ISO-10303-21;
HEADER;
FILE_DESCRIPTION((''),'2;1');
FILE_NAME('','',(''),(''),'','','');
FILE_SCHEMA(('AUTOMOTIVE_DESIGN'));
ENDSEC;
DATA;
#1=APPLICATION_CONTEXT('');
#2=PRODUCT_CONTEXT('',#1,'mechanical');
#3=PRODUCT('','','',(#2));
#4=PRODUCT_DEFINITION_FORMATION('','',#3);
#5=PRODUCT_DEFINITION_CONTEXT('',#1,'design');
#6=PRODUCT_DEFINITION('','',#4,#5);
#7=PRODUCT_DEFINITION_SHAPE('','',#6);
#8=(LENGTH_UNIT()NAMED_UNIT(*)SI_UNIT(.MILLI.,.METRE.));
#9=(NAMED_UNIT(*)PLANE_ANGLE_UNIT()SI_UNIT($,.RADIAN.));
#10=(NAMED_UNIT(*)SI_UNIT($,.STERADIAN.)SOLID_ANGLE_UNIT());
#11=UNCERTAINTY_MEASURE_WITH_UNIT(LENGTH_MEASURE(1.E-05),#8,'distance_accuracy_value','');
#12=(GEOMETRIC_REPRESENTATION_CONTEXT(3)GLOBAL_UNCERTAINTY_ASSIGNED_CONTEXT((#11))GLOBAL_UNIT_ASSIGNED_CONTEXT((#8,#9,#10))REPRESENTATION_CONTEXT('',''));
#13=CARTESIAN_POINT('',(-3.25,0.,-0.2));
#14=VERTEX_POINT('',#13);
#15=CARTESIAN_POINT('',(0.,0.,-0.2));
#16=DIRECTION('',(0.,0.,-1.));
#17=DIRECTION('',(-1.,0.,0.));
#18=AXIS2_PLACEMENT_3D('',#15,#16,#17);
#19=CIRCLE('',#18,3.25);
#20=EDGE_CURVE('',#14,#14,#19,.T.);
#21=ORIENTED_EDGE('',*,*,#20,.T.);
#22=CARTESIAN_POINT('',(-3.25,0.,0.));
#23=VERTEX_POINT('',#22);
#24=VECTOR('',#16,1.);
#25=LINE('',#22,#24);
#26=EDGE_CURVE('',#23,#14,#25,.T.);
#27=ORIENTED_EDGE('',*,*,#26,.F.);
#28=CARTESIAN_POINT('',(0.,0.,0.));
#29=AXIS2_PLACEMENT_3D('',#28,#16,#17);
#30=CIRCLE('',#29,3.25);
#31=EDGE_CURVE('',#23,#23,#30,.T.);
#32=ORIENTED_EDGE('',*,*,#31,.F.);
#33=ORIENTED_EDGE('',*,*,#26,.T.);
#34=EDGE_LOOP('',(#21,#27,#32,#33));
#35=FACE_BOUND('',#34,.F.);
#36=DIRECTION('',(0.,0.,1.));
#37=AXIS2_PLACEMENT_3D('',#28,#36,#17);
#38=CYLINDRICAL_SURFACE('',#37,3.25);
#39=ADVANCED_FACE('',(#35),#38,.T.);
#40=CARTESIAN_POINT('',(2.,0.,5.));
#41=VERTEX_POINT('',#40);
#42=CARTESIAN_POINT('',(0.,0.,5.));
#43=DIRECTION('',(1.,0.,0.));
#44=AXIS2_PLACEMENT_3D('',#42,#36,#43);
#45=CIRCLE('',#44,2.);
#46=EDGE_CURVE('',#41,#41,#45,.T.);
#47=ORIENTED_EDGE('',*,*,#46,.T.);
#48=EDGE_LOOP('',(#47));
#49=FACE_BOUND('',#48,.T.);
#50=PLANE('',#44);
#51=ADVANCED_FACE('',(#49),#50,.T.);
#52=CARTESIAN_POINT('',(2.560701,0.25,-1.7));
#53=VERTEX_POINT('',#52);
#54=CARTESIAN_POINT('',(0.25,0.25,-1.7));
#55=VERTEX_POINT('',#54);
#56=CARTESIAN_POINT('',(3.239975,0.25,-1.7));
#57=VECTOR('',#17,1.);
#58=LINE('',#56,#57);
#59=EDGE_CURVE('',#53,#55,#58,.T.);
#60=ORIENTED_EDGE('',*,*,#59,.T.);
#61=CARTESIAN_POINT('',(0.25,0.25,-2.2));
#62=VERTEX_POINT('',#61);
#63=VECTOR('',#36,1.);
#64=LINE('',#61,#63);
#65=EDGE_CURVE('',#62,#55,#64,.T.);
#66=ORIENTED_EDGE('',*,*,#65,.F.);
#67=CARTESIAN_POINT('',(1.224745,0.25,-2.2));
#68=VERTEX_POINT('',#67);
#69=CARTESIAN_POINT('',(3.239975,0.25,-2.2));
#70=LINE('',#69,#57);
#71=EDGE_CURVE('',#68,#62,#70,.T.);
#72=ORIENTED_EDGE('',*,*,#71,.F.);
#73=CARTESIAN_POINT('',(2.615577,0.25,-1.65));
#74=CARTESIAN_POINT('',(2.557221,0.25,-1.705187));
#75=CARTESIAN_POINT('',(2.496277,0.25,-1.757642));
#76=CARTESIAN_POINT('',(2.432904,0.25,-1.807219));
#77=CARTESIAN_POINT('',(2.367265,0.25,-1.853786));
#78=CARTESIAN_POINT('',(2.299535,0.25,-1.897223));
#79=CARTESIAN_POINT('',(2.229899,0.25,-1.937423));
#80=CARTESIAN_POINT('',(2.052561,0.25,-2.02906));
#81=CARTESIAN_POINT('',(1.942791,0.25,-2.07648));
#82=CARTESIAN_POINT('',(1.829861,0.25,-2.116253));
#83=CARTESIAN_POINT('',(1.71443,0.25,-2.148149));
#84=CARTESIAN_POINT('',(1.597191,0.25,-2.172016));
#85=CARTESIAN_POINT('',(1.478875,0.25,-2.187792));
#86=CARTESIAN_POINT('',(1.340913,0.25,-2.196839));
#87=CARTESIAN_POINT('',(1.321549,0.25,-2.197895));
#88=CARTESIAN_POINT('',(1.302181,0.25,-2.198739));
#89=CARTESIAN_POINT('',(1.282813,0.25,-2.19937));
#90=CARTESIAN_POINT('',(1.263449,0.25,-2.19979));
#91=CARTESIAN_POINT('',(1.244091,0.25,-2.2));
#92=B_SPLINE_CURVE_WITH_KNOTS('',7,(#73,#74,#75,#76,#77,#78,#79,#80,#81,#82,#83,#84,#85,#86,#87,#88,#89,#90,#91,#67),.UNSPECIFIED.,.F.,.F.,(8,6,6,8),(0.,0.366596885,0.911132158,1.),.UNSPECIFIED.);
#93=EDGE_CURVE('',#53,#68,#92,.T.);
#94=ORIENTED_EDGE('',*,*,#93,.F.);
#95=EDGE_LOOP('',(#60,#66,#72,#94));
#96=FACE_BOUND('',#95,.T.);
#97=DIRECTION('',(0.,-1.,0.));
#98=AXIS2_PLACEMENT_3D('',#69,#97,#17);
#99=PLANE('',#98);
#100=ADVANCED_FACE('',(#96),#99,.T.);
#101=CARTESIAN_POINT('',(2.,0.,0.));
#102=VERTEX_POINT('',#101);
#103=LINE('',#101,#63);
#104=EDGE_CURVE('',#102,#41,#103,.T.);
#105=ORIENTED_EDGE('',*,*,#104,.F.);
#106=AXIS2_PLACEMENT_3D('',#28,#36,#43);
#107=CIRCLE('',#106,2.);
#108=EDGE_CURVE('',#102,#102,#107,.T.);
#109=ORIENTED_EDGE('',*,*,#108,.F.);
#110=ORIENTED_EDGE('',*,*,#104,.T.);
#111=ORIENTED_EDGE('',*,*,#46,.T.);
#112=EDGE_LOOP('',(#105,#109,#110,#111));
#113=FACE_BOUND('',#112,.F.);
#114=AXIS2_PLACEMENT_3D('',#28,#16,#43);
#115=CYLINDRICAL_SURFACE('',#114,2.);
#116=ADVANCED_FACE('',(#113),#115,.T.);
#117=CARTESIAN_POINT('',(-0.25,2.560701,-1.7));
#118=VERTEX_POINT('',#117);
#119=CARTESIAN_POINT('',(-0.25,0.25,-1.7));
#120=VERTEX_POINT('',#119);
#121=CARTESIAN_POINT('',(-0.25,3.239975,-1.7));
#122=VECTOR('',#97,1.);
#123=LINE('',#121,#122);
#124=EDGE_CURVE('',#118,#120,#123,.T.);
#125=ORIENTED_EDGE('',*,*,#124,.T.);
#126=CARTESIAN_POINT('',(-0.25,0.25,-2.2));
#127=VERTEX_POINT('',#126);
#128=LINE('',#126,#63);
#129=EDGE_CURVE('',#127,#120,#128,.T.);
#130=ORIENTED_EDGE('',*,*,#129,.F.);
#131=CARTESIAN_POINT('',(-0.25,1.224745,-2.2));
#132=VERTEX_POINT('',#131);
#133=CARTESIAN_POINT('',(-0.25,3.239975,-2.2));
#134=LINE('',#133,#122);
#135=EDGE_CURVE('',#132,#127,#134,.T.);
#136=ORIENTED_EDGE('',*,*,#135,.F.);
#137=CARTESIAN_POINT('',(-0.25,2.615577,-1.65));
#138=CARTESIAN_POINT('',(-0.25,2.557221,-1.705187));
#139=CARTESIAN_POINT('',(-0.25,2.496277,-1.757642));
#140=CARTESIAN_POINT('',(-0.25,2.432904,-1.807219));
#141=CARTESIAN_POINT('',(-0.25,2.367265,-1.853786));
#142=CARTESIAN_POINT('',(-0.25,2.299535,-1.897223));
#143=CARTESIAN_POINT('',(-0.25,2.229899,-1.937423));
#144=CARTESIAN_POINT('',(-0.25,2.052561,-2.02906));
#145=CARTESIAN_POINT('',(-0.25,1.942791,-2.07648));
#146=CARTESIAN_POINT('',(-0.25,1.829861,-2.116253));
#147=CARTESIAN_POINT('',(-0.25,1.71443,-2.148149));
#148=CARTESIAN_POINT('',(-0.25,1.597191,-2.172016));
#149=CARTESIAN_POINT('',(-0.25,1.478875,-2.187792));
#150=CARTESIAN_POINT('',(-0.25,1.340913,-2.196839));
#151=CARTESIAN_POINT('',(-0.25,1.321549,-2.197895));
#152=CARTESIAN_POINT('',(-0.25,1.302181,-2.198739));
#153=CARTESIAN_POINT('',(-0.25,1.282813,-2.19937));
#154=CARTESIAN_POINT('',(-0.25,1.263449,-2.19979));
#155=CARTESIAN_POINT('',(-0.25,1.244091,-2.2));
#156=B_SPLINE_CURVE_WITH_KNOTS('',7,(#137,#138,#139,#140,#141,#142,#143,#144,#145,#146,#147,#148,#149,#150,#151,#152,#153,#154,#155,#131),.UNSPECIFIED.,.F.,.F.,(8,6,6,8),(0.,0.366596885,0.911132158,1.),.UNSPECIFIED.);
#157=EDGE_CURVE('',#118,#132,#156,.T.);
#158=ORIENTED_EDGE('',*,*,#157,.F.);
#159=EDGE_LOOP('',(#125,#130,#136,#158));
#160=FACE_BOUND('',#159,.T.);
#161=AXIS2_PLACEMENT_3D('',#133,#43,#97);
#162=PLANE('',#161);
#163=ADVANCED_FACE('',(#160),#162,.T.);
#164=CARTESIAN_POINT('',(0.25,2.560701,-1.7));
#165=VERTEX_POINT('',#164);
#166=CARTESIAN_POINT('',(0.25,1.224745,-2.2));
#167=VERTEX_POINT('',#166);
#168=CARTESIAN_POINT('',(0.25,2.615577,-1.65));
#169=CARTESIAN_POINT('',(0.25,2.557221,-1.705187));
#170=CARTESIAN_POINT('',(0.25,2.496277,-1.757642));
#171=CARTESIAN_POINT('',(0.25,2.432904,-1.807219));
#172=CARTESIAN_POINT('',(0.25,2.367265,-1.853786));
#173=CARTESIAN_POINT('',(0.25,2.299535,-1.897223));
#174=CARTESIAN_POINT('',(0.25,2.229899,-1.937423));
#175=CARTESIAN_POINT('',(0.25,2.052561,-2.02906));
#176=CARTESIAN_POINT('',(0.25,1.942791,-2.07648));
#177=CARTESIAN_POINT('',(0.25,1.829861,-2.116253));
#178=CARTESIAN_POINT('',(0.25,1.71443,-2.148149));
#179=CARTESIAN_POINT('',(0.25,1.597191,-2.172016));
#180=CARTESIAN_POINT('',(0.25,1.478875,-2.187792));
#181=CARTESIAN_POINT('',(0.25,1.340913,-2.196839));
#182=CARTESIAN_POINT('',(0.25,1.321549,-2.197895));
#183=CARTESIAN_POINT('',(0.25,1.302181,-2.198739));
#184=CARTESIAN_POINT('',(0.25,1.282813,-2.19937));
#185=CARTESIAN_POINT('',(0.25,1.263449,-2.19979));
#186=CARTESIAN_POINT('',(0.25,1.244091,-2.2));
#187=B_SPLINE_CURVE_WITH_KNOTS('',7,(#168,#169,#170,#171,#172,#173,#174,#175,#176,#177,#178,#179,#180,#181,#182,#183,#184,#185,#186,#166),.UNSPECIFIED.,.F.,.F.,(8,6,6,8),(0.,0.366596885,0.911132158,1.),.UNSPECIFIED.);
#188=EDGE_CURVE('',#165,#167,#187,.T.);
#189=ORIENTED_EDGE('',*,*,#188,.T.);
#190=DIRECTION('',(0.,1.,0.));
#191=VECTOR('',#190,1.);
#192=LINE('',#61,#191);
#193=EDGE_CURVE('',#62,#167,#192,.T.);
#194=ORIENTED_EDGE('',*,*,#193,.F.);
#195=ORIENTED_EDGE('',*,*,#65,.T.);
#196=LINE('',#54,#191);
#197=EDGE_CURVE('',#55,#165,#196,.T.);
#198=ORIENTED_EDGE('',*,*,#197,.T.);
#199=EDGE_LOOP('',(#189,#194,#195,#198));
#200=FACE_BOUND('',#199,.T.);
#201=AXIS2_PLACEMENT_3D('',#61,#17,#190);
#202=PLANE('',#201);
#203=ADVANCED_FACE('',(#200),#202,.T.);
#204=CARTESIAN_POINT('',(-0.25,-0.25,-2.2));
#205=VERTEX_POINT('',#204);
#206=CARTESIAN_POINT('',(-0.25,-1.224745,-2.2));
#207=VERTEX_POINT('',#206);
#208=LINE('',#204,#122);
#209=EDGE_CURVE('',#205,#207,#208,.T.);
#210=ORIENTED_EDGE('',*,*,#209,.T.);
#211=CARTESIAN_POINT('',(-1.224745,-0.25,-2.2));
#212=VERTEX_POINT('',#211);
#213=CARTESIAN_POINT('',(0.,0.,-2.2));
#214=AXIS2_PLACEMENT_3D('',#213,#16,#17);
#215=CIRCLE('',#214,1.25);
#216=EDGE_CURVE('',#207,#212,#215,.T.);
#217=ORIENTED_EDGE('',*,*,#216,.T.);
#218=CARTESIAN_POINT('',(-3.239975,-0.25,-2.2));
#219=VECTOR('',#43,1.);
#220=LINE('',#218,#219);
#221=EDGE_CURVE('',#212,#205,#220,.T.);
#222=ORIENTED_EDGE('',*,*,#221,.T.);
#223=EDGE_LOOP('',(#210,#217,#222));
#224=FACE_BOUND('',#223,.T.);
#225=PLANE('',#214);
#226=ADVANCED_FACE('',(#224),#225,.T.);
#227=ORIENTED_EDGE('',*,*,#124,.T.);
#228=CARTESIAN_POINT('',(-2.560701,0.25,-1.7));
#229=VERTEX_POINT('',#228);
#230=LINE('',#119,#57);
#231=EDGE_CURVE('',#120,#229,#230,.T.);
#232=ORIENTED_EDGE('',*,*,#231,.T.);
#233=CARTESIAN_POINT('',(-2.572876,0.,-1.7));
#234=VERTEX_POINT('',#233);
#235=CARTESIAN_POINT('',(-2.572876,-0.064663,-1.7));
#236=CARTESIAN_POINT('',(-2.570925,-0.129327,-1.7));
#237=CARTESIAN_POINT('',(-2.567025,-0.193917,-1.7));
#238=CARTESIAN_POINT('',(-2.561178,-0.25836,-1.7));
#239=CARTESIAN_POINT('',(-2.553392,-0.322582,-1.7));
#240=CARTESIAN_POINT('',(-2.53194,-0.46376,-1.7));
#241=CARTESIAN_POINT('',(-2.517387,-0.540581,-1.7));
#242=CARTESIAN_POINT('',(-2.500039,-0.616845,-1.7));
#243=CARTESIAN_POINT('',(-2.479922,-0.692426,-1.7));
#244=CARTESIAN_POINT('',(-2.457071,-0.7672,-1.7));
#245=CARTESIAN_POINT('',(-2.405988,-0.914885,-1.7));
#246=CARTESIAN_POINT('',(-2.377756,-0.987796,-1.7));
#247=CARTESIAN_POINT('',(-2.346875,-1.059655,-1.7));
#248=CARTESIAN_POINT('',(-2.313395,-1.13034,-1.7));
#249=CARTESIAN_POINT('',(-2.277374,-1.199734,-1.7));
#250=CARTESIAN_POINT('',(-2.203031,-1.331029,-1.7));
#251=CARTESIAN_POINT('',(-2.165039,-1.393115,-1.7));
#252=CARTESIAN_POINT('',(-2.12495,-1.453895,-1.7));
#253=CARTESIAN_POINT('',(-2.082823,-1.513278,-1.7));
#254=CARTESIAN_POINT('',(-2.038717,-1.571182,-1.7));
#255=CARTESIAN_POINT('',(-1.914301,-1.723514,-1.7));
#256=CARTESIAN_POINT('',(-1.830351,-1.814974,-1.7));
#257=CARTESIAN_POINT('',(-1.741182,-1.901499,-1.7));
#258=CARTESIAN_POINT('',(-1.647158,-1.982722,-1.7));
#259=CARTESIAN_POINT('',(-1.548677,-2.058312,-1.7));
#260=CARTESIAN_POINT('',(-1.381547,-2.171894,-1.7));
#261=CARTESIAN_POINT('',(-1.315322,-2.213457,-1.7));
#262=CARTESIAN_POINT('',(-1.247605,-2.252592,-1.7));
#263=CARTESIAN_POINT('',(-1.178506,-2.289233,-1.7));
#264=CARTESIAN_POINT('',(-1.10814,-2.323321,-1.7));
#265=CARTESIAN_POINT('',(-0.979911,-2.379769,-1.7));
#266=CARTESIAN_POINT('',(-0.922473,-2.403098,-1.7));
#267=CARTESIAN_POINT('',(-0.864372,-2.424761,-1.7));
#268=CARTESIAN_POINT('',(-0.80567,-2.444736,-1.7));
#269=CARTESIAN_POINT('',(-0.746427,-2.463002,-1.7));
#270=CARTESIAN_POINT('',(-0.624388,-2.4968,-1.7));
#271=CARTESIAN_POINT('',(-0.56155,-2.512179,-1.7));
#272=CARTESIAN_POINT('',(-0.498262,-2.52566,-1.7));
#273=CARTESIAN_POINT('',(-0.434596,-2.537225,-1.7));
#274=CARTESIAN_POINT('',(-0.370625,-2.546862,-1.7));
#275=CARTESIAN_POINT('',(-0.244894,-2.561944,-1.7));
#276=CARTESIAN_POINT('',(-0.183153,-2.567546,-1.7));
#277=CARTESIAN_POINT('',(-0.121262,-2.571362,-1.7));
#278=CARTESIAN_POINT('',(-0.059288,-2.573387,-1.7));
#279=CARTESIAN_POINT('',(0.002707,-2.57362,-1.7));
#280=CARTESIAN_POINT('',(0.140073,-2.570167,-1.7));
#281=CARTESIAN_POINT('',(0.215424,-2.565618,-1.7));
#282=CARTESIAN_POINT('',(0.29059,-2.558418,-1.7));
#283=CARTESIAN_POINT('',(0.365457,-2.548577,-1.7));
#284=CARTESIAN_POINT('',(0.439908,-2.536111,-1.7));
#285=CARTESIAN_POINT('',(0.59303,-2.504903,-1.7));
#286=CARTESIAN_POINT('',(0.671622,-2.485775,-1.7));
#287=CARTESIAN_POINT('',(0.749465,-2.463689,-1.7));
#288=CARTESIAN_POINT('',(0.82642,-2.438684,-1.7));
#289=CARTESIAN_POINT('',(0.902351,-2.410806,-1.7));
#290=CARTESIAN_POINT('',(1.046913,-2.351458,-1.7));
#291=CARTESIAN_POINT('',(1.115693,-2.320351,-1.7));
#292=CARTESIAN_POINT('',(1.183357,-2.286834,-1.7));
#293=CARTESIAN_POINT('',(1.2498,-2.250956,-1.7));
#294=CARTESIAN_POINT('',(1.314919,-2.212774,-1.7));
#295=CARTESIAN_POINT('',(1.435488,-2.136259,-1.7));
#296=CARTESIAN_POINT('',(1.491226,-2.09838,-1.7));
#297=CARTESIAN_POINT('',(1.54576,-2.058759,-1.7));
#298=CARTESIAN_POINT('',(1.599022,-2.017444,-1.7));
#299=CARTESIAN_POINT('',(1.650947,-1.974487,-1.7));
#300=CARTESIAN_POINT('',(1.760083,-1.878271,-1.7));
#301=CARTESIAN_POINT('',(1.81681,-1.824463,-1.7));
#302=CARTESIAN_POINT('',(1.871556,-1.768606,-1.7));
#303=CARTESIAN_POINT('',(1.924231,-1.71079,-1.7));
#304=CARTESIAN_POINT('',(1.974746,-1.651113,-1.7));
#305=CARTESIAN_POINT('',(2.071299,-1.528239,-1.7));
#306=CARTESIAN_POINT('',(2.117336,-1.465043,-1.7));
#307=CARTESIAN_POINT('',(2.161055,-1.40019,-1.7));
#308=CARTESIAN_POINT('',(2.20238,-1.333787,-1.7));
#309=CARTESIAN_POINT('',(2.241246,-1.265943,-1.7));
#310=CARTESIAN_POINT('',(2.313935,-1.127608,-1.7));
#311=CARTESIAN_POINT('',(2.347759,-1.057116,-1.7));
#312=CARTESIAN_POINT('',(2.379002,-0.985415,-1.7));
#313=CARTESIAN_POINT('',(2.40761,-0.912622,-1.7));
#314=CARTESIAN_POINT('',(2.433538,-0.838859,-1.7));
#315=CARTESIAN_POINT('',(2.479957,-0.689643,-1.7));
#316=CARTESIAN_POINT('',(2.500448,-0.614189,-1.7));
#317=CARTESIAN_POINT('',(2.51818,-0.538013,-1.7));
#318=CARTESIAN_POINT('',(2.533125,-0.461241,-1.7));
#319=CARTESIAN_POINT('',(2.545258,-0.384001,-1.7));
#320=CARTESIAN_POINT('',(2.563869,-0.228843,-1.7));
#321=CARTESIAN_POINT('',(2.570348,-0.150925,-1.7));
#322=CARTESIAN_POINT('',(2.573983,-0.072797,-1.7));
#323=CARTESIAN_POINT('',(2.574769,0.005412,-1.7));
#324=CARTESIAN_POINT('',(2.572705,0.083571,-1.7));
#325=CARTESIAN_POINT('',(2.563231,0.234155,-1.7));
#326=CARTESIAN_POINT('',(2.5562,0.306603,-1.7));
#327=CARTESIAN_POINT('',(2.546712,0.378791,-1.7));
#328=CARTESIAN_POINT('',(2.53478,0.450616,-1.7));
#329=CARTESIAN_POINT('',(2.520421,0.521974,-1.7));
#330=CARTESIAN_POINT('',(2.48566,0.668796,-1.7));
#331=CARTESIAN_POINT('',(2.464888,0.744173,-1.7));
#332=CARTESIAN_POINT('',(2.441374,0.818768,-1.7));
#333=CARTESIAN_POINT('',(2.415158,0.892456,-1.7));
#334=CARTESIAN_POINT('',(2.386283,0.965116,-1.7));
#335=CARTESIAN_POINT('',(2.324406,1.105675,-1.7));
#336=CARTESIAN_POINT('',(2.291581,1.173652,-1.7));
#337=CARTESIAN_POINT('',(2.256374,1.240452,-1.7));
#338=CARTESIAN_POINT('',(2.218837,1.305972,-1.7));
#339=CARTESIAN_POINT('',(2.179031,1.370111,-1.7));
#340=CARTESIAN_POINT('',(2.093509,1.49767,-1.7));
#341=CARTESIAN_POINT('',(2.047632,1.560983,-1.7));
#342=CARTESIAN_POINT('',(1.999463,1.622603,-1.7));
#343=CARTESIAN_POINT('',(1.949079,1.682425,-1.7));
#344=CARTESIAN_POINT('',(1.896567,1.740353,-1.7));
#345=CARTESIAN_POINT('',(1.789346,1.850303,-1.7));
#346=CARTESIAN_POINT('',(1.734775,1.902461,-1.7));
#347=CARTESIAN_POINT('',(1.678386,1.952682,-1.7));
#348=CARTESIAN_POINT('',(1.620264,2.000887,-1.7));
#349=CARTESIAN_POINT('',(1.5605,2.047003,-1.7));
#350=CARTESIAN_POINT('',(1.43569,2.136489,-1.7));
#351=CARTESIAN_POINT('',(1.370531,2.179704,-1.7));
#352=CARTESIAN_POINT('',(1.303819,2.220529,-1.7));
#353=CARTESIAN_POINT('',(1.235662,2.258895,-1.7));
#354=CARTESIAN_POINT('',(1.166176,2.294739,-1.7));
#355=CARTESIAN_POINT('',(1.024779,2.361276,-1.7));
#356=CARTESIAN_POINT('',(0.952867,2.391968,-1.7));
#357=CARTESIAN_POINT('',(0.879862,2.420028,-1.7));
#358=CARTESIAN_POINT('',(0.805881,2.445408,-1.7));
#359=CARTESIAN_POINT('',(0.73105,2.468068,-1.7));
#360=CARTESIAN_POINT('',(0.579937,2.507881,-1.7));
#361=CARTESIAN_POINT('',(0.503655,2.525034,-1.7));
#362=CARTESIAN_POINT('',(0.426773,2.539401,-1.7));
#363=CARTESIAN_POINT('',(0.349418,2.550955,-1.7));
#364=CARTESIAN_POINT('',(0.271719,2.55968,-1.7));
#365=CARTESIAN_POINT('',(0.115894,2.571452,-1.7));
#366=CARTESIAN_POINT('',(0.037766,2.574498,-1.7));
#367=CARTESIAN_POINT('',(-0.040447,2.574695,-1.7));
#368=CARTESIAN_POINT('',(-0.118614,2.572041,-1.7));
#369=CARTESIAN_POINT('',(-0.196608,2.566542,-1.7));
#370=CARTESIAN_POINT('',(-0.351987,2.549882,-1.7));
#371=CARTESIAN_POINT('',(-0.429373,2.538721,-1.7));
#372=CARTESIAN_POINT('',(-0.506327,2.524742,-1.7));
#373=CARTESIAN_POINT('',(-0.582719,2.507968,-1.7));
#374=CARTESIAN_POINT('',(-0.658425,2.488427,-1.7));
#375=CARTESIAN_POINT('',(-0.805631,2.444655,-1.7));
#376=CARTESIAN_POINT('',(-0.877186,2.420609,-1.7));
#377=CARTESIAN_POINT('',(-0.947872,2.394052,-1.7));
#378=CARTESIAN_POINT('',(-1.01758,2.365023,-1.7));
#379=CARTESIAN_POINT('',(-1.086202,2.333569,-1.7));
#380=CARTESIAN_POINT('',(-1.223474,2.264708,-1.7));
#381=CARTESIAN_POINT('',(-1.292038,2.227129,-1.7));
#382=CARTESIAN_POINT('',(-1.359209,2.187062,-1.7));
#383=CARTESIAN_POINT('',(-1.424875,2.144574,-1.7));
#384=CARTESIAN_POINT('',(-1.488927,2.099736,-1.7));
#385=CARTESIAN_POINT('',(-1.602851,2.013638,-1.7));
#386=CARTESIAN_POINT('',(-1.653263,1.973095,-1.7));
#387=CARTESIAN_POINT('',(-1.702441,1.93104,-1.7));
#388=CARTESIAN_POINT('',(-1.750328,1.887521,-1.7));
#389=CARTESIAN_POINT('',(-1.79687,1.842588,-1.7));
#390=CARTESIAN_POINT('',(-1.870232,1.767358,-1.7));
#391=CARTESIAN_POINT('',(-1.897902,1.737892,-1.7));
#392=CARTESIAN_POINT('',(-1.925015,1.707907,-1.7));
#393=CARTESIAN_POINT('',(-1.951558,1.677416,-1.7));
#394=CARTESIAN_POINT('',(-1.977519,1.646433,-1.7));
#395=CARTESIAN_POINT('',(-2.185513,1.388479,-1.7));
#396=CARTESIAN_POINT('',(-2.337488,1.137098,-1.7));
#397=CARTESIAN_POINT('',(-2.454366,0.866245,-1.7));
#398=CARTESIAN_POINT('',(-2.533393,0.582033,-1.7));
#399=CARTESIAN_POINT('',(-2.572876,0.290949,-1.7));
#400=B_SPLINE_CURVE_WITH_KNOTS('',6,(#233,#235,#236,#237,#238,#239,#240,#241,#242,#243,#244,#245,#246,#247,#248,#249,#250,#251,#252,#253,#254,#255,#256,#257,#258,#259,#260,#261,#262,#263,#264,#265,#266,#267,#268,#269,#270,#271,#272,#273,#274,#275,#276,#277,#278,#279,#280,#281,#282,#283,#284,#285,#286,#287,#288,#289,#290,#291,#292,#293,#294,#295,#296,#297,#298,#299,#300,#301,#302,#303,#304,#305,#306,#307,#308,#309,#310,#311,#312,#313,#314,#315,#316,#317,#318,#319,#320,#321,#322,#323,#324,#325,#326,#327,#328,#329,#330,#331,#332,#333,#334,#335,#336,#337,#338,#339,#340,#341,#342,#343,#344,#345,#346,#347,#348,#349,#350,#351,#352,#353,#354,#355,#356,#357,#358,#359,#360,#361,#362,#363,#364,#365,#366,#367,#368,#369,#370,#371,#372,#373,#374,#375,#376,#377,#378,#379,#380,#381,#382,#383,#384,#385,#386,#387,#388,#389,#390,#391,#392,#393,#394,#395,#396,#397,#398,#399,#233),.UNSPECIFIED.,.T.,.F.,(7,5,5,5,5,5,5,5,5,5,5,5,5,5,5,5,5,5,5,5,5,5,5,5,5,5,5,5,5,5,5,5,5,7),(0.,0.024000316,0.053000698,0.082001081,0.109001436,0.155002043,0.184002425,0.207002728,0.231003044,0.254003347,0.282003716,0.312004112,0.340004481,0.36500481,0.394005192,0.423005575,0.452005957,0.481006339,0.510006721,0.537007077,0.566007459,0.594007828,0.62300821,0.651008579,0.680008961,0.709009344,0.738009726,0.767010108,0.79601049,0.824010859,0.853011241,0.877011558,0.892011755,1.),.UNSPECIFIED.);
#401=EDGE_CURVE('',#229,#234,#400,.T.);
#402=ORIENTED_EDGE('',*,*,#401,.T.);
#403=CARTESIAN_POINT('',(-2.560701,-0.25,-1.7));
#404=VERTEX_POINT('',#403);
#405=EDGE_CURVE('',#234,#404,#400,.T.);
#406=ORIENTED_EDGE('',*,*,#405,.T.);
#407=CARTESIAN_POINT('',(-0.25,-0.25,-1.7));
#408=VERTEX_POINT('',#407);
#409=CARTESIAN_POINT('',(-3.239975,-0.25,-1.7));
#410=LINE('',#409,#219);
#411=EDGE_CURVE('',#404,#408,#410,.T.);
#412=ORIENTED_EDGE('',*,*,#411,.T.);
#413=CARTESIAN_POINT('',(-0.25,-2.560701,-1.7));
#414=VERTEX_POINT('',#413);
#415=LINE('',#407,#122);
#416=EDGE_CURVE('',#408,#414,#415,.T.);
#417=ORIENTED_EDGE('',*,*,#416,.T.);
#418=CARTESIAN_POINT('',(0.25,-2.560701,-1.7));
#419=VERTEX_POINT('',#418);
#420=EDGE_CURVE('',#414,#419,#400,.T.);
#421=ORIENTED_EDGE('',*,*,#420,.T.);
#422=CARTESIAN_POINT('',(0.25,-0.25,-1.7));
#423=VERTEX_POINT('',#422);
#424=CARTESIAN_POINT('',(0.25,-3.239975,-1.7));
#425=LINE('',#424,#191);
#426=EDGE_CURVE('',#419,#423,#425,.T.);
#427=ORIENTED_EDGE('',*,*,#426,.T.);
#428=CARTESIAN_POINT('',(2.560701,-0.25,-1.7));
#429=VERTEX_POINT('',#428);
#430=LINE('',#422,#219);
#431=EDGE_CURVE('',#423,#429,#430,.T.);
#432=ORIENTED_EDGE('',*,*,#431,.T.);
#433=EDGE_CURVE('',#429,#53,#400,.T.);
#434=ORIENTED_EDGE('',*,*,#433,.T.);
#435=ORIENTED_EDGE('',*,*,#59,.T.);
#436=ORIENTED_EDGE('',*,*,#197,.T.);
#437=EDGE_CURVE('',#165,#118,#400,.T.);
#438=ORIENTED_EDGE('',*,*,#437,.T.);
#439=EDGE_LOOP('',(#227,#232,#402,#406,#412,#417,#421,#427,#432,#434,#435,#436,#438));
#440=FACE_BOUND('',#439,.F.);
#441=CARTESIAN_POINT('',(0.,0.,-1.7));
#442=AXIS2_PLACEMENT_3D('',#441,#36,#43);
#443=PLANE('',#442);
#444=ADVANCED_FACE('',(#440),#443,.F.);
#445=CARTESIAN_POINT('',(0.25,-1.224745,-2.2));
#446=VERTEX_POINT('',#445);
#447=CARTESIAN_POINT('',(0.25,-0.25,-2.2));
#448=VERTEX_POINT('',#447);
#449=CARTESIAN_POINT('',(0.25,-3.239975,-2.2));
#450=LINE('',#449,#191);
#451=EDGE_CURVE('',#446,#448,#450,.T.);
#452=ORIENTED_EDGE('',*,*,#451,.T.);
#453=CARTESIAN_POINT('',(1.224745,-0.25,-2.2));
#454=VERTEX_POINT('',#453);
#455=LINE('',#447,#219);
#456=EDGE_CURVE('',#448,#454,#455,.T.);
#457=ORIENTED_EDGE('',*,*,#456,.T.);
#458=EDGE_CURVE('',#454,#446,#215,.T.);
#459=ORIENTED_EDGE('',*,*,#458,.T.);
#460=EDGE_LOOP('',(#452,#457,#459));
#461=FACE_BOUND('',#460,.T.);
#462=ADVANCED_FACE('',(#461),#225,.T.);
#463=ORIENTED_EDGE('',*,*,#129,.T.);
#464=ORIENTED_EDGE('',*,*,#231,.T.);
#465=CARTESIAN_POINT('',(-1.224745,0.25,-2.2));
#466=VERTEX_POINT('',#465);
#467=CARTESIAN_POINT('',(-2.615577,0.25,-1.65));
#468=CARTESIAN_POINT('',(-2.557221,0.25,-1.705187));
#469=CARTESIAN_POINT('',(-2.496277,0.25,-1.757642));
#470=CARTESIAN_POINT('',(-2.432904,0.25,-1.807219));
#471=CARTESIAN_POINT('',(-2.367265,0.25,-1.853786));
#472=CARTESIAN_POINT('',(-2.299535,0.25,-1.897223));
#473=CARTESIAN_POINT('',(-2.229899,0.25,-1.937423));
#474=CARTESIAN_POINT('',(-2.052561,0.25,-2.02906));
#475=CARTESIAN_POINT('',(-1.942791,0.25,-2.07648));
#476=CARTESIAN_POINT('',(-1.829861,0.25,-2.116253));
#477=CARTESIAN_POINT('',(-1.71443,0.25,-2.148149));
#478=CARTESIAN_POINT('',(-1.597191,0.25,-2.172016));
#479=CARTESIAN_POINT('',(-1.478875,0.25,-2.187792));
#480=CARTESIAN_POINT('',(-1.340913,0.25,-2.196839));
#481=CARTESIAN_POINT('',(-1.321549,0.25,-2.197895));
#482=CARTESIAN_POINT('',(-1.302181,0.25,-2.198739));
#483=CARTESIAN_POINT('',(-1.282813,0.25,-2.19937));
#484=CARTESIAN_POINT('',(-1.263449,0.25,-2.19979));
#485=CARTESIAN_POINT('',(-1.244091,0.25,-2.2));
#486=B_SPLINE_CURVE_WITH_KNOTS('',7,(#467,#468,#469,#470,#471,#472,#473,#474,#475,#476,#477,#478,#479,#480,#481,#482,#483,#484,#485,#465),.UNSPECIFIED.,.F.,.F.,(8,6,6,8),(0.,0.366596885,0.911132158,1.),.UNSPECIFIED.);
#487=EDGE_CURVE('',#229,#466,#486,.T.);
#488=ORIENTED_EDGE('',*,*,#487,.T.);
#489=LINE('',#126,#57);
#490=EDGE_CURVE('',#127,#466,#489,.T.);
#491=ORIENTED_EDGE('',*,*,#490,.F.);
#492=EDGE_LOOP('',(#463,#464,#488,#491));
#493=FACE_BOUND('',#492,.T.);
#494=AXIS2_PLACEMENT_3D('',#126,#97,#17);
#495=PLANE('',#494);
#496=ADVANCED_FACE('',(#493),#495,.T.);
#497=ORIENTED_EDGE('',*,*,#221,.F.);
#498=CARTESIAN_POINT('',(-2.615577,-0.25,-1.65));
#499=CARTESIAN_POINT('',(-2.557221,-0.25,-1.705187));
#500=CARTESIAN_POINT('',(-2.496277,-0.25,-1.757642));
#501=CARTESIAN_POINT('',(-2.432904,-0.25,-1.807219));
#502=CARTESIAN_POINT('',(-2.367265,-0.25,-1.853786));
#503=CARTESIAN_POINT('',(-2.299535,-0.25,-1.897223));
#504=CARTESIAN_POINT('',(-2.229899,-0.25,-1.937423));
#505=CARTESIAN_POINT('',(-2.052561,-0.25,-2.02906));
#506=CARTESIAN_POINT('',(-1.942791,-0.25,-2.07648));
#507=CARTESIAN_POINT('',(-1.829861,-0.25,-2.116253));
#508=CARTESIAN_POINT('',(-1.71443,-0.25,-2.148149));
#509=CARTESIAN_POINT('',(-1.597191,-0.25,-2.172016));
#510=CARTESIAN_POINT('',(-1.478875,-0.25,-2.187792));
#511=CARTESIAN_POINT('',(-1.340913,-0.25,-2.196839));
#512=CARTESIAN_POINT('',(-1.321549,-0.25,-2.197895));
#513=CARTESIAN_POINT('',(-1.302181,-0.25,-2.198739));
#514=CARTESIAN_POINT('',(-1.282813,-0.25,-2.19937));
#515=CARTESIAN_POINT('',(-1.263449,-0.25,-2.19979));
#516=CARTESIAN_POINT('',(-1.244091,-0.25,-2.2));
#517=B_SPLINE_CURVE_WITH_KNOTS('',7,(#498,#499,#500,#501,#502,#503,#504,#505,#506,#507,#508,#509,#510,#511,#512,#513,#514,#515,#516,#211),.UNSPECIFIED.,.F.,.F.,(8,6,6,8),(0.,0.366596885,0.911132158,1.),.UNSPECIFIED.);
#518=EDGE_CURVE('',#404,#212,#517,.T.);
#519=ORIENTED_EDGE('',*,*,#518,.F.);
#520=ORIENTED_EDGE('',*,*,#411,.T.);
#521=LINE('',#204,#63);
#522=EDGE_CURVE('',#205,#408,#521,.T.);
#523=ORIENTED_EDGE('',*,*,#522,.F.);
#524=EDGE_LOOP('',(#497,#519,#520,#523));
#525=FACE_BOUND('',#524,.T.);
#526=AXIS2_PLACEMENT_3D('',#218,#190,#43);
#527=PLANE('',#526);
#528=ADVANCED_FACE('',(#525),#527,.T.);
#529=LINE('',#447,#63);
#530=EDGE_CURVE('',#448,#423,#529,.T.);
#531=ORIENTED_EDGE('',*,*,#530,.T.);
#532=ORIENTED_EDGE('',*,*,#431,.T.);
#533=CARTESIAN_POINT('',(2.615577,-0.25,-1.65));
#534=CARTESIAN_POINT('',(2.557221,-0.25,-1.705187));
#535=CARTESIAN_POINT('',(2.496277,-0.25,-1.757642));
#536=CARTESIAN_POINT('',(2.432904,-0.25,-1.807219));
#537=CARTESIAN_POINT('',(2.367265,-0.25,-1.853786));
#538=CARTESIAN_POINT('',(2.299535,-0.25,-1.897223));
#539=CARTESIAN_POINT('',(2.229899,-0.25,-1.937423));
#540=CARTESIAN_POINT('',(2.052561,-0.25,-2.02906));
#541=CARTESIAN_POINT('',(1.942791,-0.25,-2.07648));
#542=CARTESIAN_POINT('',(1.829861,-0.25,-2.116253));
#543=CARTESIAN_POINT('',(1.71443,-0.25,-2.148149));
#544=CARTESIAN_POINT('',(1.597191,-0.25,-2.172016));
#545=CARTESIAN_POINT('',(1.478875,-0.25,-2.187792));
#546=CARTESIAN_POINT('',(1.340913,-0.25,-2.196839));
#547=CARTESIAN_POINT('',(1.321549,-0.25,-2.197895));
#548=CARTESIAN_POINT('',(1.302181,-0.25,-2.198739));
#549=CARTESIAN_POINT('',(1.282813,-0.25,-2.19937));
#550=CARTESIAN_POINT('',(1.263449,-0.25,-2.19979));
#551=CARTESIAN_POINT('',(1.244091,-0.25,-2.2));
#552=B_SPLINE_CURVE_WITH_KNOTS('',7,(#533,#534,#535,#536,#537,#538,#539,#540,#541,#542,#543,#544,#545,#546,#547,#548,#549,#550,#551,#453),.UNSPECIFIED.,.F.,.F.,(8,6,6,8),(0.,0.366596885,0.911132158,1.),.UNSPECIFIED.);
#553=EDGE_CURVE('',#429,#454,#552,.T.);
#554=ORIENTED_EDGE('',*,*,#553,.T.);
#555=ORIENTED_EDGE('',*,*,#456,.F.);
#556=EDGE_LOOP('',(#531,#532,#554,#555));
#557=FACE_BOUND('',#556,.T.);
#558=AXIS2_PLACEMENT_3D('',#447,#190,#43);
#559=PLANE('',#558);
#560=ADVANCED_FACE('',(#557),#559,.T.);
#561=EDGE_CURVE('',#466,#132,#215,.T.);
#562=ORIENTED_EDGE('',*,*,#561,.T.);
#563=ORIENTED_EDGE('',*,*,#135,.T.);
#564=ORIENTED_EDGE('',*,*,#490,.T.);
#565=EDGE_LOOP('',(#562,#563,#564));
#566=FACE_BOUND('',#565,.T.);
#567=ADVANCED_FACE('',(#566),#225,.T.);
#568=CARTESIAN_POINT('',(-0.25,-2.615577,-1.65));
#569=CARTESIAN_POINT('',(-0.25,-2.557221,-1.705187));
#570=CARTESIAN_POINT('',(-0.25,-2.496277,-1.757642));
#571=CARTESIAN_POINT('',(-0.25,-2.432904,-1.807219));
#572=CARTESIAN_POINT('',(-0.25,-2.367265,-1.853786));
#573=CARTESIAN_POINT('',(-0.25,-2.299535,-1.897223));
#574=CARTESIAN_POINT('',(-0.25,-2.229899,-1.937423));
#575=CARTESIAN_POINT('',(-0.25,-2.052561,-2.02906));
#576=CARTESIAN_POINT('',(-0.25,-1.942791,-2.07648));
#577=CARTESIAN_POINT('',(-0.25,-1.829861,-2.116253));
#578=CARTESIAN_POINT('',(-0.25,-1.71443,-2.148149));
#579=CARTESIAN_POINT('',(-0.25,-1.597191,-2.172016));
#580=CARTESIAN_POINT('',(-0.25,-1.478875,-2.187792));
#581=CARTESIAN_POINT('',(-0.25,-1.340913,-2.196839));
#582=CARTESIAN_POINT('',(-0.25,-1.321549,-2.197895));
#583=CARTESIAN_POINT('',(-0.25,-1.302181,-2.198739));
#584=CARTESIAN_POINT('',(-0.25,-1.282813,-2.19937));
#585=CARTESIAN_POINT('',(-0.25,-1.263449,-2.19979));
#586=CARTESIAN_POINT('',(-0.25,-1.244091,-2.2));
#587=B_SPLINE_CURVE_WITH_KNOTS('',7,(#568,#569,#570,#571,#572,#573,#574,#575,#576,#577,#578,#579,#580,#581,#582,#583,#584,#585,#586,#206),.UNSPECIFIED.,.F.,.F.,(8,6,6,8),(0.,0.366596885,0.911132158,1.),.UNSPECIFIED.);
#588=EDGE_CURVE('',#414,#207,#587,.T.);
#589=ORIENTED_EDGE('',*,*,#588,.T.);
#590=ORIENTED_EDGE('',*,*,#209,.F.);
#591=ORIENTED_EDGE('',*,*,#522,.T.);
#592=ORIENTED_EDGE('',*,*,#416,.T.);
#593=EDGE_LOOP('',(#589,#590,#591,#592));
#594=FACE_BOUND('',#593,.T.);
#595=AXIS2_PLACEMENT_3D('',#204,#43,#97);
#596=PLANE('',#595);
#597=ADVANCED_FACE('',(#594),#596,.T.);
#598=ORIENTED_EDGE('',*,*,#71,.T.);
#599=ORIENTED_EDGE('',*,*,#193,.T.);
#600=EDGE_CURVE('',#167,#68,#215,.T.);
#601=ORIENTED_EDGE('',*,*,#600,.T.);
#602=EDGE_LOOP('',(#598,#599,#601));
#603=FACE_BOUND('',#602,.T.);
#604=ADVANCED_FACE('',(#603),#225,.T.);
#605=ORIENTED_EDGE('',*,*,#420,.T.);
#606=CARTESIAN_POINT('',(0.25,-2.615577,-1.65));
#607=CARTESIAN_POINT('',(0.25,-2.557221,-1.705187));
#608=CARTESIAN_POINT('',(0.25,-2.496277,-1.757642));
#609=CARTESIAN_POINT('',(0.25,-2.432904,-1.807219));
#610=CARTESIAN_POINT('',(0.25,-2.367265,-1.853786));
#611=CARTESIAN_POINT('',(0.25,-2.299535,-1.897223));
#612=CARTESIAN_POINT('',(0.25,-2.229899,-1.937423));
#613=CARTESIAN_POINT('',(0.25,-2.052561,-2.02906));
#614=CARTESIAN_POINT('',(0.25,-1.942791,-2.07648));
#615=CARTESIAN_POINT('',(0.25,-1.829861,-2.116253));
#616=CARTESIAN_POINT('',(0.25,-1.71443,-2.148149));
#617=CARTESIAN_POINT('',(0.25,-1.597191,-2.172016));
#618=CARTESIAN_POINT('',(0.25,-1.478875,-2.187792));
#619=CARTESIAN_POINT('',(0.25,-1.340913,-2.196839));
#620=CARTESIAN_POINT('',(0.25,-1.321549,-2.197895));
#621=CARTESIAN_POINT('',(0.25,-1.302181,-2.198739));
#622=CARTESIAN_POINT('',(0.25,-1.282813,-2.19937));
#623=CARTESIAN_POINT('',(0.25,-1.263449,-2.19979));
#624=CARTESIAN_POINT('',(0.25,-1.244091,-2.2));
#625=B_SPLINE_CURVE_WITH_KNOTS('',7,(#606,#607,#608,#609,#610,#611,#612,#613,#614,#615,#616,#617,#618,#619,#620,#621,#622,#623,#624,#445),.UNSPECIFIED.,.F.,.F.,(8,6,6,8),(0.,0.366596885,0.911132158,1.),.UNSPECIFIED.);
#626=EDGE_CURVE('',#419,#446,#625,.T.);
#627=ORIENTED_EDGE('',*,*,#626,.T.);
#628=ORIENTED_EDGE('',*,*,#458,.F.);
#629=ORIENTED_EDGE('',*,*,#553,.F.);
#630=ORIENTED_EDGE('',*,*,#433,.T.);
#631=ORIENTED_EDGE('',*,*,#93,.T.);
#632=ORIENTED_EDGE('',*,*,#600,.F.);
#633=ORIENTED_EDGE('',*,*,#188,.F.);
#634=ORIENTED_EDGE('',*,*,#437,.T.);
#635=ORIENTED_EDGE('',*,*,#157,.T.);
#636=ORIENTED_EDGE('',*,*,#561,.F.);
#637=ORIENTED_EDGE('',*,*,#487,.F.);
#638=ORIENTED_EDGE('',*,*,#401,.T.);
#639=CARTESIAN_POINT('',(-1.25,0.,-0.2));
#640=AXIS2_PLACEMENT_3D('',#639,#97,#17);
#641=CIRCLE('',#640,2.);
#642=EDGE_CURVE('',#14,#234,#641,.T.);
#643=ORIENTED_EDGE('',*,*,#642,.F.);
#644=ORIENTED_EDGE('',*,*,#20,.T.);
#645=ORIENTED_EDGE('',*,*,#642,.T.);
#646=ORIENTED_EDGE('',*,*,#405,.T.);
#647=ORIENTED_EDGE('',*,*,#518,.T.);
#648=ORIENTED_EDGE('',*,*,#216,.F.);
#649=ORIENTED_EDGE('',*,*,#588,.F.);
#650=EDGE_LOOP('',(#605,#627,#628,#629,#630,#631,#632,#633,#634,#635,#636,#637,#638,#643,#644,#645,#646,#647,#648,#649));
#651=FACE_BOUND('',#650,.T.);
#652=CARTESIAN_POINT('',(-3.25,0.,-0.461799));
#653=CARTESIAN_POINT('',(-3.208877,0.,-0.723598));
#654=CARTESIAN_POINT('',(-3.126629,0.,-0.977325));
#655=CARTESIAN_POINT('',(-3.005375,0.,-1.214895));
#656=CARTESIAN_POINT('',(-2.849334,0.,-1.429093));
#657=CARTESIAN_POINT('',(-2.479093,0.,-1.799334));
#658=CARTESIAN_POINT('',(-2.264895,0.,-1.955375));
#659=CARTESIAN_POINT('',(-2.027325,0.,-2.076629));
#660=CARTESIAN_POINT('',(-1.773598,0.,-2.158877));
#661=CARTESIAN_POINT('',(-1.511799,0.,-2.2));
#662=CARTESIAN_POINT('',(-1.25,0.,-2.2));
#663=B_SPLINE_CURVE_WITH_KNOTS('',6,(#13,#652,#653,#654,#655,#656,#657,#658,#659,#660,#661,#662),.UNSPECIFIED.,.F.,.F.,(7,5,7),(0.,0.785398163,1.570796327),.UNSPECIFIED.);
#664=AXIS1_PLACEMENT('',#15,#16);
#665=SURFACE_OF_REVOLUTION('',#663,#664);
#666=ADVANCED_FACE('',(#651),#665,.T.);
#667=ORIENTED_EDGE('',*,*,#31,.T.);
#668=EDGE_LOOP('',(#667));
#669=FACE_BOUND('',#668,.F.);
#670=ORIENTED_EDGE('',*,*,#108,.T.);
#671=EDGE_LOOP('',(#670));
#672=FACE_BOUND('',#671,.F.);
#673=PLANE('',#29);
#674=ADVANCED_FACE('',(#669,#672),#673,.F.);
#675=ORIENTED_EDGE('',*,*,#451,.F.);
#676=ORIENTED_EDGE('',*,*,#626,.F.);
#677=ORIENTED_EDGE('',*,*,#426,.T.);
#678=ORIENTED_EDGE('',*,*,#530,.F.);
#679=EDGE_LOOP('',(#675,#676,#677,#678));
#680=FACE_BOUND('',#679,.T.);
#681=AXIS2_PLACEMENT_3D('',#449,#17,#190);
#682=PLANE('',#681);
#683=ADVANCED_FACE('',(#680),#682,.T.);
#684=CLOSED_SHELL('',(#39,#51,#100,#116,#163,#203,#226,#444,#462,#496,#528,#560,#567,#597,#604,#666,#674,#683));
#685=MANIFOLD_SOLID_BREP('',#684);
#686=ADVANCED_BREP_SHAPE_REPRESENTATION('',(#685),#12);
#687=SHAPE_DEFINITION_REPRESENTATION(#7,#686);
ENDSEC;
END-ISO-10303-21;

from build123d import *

# Parameters (mm, degrees)
SKETCH_1_R          = 2
EXTRUDE_1_DEPTH     = 5
SKETCH_2_R          = 3.25
EXTRUDE_2_DEPTH     = 2.2
FILLET_1_R          = 2
CUT_EXTRUDE_1_DEPTH = 0.5


with BuildPart() as part:
    # 草图1 → 凸台-拉伸1 (new body)
    with BuildSketch(Plane.XY):
        Circle(SKETCH_1_R)
    extrude(amount=EXTRUDE_1_DEPTH)

    # 草图2 → 凸台-拉伸2 (add)
    with BuildSketch(Plane(origin=(0, 0, 0), x_dir=(-1, 0, 0), z_dir=(0, 0, -1))):
        Circle(SKETCH_2_R)
    extrude(amount=EXTRUDE_2_DEPTH)

    # 圆角1
    fillet_1_edges = [part.edges().sort_by_distance(p)[0] for p in [
        (3.25, 0, -2.2),
    ]]
    fillet(fillet_1_edges, radius=FILLET_1_R)

    # 草图3 → 切除-拉伸1 (cut)
    with BuildSketch(Plane(origin=(0, 0, -2.2), x_dir=(-1, 0, 0), z_dir=(0, 0, -1))):
        Polygon((3.239974874, 0.25), (3.239974874, -0.25), (0.25, -0.25), (0.25, -3.239974874), (-0.25, -3.239974874), (-0.25, -0.25), (-3.239974874, -0.25), (-3.239974874, 0.25), (-0.25, 0.25), (-0.25, 3.239974874), (0.25, 3.239974874), (0.25, 0.25), align=None)
    extrude(amount=-CUT_EXTRUDE_1_DEPTH, mode=Mode.SUBTRACT)


solid = part.part
